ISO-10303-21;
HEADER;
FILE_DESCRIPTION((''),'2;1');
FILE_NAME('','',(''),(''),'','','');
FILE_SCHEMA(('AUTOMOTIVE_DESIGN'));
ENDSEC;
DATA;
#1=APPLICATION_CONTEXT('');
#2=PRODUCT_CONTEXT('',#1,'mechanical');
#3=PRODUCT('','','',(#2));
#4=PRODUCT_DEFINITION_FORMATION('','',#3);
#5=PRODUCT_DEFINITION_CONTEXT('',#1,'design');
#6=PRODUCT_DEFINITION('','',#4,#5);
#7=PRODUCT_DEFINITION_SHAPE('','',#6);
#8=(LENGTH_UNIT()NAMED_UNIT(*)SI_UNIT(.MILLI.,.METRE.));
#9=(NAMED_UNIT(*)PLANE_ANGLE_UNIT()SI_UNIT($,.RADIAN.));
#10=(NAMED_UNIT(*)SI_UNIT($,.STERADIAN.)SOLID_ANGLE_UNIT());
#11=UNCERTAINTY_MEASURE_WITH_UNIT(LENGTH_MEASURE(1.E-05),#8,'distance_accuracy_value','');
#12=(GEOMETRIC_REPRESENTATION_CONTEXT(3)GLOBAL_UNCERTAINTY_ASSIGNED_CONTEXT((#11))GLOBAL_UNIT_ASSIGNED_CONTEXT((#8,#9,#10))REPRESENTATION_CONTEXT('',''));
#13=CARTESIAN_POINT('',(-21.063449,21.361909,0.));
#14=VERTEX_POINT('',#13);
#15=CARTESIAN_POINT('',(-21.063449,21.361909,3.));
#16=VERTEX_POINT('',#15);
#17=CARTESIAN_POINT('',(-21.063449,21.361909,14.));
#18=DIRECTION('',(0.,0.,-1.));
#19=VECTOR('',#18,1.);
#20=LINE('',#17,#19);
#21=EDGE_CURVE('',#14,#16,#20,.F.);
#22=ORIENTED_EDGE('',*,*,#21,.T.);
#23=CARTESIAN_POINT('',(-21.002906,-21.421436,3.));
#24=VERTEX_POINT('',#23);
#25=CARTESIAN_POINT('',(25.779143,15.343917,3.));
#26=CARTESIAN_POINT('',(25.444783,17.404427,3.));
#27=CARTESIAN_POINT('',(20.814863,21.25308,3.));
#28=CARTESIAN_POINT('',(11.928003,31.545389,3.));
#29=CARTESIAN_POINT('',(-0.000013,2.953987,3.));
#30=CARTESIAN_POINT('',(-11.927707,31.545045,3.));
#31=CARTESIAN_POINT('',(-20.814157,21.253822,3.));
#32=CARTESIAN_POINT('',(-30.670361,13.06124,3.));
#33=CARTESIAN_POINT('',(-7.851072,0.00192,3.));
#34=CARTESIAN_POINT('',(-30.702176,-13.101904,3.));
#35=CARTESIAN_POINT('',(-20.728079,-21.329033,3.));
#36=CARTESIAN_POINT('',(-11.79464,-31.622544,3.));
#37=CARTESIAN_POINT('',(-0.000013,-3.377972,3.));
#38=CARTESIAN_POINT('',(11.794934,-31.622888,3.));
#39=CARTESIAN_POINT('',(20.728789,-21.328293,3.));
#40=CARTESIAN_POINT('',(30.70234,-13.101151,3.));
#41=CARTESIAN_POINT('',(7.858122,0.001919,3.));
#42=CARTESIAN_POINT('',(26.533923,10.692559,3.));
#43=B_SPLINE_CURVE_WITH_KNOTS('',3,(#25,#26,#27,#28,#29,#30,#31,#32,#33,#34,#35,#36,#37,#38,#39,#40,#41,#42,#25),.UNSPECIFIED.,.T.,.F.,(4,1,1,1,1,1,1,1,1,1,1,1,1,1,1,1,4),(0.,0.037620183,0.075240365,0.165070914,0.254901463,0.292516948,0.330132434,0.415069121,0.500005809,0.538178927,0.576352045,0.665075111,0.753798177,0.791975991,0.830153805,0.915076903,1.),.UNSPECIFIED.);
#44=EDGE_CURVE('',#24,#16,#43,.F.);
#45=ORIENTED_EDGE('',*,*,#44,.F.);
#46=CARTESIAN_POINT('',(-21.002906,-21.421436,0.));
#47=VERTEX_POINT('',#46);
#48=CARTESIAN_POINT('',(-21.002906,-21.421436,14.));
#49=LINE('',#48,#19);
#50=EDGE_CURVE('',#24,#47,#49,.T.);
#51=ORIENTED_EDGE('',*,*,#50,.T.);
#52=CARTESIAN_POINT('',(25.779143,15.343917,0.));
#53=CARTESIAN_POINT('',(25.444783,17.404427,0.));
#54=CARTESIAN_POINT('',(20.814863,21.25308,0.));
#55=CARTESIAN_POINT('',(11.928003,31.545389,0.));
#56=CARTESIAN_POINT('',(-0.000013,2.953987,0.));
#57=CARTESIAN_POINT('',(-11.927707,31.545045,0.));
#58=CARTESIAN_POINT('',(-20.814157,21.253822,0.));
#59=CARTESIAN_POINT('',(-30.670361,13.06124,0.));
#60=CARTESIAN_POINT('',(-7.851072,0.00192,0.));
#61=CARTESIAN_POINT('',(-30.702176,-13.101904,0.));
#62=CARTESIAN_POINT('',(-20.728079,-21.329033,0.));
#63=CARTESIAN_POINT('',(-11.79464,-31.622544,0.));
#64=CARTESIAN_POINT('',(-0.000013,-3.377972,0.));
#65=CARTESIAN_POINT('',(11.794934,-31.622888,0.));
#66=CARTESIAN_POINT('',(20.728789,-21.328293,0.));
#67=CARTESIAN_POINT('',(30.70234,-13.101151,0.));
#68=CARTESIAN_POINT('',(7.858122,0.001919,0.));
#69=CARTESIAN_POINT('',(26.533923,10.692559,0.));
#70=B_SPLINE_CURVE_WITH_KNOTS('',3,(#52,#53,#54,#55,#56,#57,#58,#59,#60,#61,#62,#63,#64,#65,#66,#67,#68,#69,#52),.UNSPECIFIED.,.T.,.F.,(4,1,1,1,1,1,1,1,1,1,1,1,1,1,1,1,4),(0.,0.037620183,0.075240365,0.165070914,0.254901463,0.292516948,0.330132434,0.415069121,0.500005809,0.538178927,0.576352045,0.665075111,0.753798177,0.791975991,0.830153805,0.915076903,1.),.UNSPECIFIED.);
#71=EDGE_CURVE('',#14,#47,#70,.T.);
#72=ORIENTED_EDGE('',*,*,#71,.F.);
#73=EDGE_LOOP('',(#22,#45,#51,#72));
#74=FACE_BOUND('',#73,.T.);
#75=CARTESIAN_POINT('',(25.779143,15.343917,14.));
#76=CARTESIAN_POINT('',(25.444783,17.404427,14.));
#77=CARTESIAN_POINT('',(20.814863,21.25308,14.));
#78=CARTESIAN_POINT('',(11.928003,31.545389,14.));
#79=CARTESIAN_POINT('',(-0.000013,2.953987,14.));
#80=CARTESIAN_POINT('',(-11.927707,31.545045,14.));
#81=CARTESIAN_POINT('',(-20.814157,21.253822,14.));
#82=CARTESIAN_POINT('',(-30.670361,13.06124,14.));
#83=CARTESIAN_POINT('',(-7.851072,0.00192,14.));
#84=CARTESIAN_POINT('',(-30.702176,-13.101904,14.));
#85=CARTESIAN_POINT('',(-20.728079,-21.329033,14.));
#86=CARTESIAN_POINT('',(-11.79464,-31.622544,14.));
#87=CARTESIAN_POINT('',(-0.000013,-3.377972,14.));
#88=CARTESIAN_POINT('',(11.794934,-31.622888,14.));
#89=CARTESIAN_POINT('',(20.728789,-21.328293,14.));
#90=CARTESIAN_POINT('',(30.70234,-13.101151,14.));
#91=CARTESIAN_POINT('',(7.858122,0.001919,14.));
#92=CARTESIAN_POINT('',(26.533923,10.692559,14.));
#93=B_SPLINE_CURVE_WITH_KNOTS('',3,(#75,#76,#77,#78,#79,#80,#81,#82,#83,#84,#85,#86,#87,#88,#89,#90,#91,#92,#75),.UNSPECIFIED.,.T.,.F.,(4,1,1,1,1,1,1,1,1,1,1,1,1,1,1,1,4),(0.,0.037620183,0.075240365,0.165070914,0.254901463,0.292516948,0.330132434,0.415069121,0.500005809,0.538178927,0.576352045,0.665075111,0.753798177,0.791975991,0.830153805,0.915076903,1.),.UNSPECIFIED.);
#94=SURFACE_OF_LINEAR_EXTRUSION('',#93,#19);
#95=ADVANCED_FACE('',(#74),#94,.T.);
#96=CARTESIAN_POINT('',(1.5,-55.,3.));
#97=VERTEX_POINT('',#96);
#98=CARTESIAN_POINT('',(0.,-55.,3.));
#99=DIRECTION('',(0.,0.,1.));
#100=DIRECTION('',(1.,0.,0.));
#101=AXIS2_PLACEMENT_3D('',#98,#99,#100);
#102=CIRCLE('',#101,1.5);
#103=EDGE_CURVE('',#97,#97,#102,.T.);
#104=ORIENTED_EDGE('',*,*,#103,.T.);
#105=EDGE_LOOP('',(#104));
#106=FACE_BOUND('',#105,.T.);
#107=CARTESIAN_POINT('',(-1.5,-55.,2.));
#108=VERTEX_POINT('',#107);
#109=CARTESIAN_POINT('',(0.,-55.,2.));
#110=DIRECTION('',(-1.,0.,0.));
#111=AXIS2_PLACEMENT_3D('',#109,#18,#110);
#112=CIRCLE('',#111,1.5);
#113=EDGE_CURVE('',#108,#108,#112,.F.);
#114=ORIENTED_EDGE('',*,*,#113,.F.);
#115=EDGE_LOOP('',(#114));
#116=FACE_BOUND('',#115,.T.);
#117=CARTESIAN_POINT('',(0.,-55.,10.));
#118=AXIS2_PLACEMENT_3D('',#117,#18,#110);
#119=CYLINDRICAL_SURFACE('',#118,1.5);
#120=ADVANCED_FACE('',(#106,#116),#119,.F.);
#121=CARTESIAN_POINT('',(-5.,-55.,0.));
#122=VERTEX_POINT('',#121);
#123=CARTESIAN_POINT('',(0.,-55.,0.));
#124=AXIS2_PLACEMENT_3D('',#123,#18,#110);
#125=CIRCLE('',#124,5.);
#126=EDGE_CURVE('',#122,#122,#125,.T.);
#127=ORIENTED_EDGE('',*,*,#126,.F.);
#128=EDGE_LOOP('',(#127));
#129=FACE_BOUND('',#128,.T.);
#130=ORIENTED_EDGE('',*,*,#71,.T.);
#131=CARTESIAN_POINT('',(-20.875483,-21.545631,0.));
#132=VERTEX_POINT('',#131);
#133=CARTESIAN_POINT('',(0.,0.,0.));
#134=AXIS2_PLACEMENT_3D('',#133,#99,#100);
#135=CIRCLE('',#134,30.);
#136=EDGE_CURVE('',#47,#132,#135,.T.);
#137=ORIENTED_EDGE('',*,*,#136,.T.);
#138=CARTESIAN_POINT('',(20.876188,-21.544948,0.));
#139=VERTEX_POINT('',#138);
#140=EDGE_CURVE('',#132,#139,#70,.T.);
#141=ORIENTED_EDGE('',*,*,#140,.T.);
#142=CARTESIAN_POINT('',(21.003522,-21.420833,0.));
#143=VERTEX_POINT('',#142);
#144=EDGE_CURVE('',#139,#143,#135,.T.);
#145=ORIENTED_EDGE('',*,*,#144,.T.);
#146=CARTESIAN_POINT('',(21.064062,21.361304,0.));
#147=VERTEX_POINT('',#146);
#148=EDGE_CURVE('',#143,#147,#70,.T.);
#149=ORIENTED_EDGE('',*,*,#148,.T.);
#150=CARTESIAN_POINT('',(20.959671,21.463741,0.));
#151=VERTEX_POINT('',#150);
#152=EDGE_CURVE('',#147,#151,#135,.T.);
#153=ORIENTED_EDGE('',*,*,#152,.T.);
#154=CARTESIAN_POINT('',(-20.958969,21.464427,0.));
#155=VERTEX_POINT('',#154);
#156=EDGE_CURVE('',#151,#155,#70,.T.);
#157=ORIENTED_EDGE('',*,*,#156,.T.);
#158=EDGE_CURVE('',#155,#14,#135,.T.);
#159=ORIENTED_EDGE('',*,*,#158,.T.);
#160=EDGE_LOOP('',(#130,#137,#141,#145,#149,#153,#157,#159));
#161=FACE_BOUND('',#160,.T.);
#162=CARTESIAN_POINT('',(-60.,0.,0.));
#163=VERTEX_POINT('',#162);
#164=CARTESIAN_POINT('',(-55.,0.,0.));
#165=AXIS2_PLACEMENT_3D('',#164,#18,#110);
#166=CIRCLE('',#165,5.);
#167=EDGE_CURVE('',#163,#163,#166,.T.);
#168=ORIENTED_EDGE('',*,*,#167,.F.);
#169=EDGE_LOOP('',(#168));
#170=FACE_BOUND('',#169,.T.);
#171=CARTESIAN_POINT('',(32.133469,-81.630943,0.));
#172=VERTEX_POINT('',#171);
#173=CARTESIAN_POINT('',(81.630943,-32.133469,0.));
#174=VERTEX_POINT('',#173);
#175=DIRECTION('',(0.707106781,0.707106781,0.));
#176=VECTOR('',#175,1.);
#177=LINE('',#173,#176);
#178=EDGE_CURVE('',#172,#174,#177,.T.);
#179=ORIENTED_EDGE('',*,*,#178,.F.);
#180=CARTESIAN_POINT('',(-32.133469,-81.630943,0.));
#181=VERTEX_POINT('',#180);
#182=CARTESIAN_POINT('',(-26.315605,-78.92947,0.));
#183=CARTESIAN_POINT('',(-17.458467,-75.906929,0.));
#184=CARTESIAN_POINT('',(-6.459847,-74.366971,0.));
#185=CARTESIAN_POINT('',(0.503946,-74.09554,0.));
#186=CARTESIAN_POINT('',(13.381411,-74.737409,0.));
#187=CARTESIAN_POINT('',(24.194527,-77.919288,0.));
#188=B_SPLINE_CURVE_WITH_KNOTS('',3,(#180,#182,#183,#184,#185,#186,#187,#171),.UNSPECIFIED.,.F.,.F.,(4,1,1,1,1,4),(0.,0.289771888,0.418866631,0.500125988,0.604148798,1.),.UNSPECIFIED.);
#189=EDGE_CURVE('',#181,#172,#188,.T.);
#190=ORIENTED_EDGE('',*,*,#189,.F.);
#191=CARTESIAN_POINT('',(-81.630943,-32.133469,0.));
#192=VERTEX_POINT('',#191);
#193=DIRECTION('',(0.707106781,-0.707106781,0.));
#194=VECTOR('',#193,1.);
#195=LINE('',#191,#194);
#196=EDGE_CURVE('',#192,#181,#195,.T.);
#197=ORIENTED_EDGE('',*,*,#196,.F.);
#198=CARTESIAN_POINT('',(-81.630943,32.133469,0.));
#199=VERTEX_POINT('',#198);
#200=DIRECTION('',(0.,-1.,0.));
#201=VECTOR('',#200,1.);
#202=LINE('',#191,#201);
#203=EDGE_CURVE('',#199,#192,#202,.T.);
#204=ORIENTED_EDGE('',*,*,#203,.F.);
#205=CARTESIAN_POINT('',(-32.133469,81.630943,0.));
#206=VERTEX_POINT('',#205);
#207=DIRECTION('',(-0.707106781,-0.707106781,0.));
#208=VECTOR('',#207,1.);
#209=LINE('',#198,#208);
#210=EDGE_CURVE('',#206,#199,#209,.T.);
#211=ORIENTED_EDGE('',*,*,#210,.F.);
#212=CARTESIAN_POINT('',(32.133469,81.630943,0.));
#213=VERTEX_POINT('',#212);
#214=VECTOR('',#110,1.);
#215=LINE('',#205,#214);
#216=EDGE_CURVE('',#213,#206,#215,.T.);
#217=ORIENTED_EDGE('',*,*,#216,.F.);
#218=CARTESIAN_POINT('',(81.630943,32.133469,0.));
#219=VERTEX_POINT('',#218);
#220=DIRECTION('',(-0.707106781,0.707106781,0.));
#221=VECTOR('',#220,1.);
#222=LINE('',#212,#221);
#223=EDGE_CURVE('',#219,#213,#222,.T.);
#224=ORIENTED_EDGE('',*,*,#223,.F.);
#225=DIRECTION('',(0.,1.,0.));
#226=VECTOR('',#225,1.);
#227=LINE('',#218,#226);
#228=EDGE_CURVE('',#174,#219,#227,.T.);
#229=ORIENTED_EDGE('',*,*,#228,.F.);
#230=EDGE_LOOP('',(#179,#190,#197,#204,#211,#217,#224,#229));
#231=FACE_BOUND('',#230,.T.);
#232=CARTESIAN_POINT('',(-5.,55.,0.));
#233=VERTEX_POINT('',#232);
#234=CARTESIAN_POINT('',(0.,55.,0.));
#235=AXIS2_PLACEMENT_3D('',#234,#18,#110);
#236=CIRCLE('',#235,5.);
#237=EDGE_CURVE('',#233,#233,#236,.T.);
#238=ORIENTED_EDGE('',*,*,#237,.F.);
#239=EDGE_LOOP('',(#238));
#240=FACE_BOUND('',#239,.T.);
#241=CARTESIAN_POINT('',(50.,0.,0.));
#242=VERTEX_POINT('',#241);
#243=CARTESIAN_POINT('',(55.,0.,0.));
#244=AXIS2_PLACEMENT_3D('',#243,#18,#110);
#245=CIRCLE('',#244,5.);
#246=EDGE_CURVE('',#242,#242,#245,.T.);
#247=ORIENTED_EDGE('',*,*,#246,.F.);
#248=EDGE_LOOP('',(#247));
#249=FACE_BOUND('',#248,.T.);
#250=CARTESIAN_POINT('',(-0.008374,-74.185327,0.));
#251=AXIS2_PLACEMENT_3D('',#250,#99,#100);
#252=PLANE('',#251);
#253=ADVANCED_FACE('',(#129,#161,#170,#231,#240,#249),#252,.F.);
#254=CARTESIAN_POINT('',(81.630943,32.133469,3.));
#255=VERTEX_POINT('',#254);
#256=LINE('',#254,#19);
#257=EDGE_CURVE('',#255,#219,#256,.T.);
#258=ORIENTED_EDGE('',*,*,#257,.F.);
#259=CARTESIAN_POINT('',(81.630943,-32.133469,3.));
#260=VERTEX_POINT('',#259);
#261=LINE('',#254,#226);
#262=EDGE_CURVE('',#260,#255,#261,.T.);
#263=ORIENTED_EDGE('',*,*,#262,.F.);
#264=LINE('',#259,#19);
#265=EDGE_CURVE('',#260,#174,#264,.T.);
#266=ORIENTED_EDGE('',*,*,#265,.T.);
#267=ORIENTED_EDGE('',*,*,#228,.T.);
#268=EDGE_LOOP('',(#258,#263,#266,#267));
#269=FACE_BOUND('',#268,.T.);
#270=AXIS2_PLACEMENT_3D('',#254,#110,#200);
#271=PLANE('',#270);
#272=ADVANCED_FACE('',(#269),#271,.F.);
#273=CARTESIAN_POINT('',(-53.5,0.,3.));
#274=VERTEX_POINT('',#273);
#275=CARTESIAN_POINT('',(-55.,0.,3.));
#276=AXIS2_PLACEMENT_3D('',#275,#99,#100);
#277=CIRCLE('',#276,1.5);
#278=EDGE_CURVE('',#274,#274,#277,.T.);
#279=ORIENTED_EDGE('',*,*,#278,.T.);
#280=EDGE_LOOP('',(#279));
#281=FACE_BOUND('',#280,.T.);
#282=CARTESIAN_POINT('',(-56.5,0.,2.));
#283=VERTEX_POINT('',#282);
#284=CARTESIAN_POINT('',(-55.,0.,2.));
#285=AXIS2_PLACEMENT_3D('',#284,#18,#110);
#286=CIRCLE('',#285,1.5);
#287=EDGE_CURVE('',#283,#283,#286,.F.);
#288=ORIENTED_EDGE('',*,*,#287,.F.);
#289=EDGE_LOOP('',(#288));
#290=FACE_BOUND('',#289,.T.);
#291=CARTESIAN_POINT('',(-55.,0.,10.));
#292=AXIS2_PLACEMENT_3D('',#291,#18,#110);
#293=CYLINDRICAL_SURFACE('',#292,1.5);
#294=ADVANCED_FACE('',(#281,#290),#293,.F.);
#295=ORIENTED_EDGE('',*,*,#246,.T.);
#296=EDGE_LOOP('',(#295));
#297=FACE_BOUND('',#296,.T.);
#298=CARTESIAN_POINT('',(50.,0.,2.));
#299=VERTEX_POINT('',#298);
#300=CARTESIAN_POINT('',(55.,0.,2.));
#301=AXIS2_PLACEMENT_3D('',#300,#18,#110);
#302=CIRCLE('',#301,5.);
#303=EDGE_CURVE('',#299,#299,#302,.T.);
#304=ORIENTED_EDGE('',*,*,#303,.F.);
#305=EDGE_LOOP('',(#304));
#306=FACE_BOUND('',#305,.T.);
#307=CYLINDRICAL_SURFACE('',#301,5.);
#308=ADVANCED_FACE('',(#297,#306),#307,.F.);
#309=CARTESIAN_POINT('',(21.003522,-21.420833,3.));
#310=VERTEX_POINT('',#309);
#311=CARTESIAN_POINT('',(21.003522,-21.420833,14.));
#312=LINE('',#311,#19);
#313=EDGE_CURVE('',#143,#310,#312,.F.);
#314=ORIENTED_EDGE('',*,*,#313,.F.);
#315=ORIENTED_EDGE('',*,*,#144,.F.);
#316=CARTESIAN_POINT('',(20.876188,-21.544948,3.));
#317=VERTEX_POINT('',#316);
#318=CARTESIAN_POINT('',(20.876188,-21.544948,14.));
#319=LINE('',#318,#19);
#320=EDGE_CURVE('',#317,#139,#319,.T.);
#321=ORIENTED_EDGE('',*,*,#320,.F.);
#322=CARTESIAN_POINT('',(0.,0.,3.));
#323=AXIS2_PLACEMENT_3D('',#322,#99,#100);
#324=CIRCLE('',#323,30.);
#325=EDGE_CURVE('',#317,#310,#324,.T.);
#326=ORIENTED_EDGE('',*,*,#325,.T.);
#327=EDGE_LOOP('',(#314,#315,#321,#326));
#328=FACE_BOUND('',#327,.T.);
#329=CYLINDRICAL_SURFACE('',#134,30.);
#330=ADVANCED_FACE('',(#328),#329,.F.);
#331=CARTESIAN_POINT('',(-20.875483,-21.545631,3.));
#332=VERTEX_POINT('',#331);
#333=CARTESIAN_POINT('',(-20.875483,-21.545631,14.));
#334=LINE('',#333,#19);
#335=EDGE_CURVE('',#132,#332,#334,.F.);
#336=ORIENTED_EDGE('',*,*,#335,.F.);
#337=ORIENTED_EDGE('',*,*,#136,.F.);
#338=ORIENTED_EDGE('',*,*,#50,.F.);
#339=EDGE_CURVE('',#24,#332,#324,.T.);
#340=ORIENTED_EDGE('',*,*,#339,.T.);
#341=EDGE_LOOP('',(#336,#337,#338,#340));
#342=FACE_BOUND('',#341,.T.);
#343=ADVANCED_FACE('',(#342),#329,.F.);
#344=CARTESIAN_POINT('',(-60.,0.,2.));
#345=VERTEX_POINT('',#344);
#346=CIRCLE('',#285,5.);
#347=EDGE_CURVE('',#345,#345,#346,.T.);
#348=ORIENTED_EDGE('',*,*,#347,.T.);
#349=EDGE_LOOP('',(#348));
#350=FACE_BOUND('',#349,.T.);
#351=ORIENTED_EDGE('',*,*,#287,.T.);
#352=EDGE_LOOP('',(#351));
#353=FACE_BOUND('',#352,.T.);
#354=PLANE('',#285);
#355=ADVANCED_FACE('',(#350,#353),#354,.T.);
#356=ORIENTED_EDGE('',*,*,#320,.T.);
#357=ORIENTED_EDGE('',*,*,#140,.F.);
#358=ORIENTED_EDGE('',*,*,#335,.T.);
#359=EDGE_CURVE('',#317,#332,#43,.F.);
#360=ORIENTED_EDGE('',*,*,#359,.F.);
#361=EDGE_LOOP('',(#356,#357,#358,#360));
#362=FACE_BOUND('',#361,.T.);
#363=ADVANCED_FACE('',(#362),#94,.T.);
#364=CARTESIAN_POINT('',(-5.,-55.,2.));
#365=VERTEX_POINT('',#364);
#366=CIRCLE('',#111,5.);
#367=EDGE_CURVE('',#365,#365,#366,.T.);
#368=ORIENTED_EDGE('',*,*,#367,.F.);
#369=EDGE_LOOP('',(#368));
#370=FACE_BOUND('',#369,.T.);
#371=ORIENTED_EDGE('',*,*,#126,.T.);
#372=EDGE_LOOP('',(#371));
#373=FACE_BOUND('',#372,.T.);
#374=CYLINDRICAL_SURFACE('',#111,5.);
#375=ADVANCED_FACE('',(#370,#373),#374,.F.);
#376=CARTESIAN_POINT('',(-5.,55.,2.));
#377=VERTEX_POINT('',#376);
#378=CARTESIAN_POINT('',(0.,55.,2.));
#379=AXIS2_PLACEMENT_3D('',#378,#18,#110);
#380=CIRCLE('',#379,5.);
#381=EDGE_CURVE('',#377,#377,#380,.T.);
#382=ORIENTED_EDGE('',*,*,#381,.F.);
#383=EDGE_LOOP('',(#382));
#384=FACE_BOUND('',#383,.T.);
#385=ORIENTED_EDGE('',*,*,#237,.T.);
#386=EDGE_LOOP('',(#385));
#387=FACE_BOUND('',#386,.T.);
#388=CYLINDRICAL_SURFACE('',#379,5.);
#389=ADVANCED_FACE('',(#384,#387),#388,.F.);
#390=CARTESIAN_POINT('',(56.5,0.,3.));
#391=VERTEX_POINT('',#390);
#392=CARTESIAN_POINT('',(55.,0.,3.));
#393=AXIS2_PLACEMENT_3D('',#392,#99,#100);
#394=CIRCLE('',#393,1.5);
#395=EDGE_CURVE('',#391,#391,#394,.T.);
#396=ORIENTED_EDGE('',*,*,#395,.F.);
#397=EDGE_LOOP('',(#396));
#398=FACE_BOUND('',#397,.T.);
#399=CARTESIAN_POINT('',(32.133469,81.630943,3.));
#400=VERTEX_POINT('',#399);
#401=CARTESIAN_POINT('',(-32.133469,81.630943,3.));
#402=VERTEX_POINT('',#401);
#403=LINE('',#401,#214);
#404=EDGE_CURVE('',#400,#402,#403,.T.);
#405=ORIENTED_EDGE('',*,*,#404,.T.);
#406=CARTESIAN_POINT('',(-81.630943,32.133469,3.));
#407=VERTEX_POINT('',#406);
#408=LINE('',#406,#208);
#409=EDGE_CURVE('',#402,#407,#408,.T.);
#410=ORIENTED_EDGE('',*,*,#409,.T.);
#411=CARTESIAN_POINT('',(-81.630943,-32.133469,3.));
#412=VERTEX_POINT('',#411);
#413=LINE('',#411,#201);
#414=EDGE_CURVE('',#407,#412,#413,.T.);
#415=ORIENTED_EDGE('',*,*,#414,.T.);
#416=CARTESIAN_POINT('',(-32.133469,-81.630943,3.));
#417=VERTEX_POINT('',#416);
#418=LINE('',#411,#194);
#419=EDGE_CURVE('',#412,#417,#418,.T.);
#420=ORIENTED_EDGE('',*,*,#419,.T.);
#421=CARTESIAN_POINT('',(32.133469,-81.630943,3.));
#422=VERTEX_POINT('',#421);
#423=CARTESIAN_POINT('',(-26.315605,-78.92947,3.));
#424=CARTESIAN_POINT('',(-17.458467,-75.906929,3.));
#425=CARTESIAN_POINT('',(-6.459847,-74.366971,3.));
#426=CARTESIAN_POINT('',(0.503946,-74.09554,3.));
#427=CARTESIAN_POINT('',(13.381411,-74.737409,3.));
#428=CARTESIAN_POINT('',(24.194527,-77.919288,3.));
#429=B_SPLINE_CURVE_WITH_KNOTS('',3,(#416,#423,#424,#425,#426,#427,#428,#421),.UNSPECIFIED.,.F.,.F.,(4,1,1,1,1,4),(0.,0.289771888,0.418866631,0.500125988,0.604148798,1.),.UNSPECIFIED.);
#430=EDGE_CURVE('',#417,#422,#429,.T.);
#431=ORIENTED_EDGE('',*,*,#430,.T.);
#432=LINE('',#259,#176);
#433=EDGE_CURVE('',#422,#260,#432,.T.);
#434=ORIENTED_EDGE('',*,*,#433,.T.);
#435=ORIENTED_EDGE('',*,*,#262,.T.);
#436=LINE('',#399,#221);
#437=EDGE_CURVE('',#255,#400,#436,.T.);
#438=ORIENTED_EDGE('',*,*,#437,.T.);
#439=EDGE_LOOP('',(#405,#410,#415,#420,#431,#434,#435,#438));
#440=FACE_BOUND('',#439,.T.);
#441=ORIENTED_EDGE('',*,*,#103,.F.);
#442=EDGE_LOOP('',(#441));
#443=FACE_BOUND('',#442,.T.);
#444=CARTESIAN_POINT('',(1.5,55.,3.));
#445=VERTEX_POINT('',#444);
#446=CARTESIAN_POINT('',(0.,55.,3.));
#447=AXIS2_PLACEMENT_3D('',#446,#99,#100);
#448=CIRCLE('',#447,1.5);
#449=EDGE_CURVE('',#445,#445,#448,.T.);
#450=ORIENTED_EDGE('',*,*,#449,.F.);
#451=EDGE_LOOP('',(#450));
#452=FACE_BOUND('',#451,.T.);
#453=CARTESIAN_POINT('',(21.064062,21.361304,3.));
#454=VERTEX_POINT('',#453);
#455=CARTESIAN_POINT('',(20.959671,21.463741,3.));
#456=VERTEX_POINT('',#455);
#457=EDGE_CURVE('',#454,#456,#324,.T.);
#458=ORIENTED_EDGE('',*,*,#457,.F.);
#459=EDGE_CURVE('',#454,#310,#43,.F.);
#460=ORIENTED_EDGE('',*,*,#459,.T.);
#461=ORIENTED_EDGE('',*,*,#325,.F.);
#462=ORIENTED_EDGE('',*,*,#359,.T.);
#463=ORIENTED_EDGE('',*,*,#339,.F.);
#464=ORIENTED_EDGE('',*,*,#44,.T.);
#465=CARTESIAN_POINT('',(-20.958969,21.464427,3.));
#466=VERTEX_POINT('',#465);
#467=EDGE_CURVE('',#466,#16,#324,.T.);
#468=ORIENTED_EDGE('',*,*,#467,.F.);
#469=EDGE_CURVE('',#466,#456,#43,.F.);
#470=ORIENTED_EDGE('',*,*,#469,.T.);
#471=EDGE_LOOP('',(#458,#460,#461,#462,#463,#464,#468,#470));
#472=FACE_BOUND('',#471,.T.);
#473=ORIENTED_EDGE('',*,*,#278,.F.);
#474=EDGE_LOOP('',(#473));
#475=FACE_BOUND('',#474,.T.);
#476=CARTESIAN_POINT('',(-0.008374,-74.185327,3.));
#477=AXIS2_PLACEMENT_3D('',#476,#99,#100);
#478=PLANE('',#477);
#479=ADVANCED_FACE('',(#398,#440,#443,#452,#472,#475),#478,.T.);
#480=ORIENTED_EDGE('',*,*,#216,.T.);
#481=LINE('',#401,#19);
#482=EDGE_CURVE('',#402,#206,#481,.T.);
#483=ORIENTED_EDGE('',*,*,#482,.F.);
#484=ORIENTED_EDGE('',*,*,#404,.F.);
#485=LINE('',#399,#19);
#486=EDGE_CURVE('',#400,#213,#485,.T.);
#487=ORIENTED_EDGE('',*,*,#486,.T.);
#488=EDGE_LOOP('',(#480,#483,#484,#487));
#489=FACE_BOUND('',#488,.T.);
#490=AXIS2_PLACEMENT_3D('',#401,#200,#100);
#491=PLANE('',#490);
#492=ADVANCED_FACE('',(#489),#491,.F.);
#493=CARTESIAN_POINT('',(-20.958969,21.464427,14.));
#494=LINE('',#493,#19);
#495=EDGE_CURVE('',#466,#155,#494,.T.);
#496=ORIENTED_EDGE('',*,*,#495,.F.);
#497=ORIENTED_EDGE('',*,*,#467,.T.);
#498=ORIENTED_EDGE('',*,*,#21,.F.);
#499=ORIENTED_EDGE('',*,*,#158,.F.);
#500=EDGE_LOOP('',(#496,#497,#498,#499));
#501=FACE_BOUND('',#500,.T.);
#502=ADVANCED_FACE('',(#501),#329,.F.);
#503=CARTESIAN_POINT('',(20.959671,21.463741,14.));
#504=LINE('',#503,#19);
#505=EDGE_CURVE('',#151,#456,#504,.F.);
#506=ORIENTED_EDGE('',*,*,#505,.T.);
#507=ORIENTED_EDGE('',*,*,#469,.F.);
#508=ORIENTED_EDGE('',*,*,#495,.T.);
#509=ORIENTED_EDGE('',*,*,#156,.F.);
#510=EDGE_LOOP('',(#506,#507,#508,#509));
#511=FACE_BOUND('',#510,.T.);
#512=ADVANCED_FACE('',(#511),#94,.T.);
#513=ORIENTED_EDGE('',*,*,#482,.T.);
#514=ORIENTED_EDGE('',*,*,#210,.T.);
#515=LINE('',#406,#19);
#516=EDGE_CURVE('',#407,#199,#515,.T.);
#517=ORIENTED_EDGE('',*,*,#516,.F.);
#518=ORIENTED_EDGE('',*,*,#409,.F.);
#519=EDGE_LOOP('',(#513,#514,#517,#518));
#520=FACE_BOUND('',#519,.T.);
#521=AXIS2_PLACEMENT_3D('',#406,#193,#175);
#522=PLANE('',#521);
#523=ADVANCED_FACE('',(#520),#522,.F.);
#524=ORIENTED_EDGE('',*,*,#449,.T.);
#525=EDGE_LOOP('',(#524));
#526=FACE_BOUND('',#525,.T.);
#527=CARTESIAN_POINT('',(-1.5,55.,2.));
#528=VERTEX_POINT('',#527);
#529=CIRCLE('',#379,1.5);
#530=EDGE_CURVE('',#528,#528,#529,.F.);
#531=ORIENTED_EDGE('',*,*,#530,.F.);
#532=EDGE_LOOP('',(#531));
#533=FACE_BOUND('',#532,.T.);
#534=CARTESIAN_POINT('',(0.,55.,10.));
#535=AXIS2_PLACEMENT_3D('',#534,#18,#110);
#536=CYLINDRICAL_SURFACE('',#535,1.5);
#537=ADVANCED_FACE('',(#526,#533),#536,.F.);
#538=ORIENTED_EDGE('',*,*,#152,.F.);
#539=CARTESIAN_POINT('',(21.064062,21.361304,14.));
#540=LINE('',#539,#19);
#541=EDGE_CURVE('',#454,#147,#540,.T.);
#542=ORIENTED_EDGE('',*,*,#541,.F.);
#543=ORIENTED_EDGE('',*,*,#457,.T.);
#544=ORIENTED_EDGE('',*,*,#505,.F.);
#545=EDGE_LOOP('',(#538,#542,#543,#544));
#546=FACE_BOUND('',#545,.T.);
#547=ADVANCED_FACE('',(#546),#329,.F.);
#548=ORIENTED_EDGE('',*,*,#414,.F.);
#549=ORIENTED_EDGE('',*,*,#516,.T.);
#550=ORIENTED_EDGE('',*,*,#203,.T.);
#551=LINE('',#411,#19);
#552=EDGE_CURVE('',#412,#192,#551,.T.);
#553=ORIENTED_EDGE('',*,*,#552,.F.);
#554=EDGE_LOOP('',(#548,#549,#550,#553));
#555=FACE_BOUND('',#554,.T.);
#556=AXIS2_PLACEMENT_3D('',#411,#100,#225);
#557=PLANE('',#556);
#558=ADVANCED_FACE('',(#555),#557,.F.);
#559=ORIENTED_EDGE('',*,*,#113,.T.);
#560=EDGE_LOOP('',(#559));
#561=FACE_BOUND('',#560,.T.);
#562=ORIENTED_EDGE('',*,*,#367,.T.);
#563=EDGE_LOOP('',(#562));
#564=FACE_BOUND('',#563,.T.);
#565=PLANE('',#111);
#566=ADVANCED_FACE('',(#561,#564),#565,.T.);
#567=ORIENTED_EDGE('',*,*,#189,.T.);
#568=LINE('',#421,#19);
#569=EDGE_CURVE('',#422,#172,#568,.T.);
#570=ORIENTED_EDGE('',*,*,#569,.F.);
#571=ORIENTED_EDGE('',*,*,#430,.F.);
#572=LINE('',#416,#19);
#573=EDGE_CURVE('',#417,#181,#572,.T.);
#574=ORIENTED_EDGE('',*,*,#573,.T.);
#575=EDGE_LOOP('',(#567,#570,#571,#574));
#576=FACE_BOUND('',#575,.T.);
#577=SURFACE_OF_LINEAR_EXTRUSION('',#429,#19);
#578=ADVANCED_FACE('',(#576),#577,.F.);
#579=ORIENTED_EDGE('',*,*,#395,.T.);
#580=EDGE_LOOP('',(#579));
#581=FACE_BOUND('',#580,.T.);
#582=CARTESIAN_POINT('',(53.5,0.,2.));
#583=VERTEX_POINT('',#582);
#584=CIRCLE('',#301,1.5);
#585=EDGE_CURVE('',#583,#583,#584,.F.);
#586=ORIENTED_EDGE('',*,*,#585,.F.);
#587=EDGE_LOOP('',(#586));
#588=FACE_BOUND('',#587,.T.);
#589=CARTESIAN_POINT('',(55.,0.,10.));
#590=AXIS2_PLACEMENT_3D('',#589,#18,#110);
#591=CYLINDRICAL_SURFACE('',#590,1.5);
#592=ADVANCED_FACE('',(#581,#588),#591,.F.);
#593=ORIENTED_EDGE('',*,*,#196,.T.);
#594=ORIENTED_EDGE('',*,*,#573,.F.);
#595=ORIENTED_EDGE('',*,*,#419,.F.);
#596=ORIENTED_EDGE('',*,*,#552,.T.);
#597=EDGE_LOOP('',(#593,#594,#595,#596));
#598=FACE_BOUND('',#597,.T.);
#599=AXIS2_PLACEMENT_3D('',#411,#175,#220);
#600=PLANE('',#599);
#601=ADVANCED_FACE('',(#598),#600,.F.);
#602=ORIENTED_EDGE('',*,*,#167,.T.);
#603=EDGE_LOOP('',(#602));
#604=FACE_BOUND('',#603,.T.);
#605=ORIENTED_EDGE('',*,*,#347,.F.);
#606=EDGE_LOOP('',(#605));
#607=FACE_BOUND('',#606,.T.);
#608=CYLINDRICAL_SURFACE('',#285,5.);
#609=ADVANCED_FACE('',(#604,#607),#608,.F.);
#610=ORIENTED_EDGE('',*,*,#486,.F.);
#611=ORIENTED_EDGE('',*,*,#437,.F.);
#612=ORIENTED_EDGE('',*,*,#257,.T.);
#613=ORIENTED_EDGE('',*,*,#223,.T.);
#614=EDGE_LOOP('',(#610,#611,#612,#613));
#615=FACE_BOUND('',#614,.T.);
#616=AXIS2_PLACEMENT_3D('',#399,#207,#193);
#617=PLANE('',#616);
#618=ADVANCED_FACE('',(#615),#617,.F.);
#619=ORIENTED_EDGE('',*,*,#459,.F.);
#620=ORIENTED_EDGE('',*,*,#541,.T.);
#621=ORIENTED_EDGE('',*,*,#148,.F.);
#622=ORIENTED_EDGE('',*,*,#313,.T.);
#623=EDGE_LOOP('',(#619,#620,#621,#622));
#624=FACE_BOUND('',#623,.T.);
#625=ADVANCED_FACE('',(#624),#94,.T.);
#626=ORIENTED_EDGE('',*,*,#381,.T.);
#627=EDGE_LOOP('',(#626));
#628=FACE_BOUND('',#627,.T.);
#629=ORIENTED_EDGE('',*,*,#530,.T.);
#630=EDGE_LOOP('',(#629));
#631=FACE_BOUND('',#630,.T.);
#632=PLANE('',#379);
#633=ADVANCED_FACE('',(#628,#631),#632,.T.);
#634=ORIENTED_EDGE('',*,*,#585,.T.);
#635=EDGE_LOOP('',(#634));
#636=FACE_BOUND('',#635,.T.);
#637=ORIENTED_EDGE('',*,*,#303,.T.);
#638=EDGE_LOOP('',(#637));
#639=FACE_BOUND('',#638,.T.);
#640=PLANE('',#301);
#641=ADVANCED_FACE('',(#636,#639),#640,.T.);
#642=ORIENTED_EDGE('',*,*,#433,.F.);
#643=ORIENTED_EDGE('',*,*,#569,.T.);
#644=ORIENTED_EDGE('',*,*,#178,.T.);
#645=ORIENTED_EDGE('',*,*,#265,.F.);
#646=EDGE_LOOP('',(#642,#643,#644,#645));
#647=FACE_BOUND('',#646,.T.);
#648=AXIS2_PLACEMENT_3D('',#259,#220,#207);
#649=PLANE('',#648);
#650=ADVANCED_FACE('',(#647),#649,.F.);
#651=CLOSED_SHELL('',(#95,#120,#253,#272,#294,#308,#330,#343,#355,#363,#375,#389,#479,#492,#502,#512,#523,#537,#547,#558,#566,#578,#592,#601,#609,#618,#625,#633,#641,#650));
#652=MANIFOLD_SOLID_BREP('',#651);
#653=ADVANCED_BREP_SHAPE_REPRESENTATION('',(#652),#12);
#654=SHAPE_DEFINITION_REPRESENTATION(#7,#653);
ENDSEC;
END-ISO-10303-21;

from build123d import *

# Parameters (mm, degrees)
BOSS_EXTRUDE1_DEPTH  = 3
SKETCH2_R            = 1.5
CUT_EXTRUDE1_DEPTH   = 3
SKETCH3_R            = 30
SKETCH3_R_2          = 15
CUT_EXTRUDE2_DEPTH   = 3
SKETCH4_R            = 18
BOSS_EXTRUDE6_DEPTH  = 3
SKETCH5_R            = 15
BOSS_EXTRUDE7_DEPTH  = 3
SKETCH6_R            = 15.225419419
BOSS_EXTRUDE8_DEPTH  = 3
SKETCH7_R            = 1.5
CUT_EXTRUDE4_DEPTH   = 3
SKETCH9_R            = 10
CUT_EXTRUDE5_DEPTH   = 3
SKETCH10_R           = 19.155501788
BOSS_EXTRUDE9_DEPTH  = 3
SKETCH11_R           = 13.756788871
BOSS_EXTRUDE10_DEPTH = 3
SKETCH12_R           = 11.549228796
BOSS_EXTRUDE11_DEPTH = 3
SKETCH14_R           = 9.610550559
BOSS_EXTRUDE12_DEPTH = 3
SKETCH15_R           = 14.086691916
BOSS_EXTRUDE13_DEPTH = 3
SKETCH16_R           = 15.543730799
BOSS_EXTRUDE14_DEPTH = 3
SKETCH17_R           = 14.681473261
BOSS_EXTRUDE17_DEPTH = 3
SKETCH18_R           = 13.614072274
BOSS_EXTRUDE18_DEPTH = 3
SKETCH19_R           = 1.5
CUT_EXTRUDE6_DEPTH   = 10
SKETCH20_R           = 5
CUT_EXTRUDE8_DEPTH   = 2
CUT_EXTRUDE11_DEPTH  = 14


with BuildPart() as part:
    # Sketch1 → Boss-Extrude1 (new body)
    with BuildSketch(Plane.XY):
        with BuildLine():
            Line((-32.133468612, 81.630943295), (32.133468612, 81.630943295))
            Line((32.133468612, 81.630943295), (81.630943295, 32.133468612))
            Line((81.630943295, 32.133468612), (81.630943295, -32.133468612))
            Line((81.630943295, -32.133468612), (32.133468612, -81.630943295))
            add(Edge.make_bspline(
                [(-32.133468612, -81.630943295), (-26.315604905, -78.929469601), (-17.458466972, -75.90692924), (-6.459846686, -74.366971031), (0.503945588, -74.095540146), (13.381410653, -74.737409183), (24.194527132, -77.919288079), (32.133468612, -81.630943295)],
                knots=[0, 0, 0, 0, 0.289771888, 0.418866631, 0.500125988, 0.604148798, 1, 1, 1, 1], degree=3))
            Line((-32.133468612, -81.630943295), (-81.630943295, -32.133468612))
            Line((-81.630943295, -32.133468612), (-81.630943295, 32.133468612))
            Line((-81.630943295, 32.133468612), (-32.133468612, 81.630943295))
        make_face()
    extrude(amount=BOSS_EXTRUDE1_DEPTH)

    # Sketch2 → Cut-Extrude1 (cut)
    with BuildSketch(Plane.XY.offset(3)):
        with Locations((-39.204536424, -39.204536424)):
            Circle(SKETCH2_R)
        with Locations((39.204536424, -39.204536424)):
            Circle(SKETCH2_R)
        with Locations((39.204536424, 39.204536424)):
            Circle(SKETCH2_R)
        with Locations((-39.204536424, 39.204536424)):
            Circle(SKETCH2_R)
    extrude(amount=-CUT_EXTRUDE1_DEPTH, mode=Mode.SUBTRACT)

    # Sketch3 → Cut-Extrude2 (cut)
    with BuildSketch(Plane.XY.offset(3)):
        Circle(SKETCH3_R)
        with Locations((0, 30)):
            Circle(SKETCH3_R_2)
        Circle(SKETCH3_R)
        with Locations((0, 30)):
            Circle(SKETCH3_R_2)
        with Locations((0, -30)):
            Circle(SKETCH3_R_2)
        Circle(SKETCH3_R)
        with Locations((30, 0)):
            Circle(SKETCH3_R_2)
        with Locations((0, 30)):
            Circle(SKETCH3_R_2)
        with Locations((-30, 0)):
            Circle(SKETCH3_R_2)
        Circle(SKETCH3_R)
        with Locations((-30, 0)):
            Circle(SKETCH3_R_2)
        Circle(SKETCH3_R)
        with Locations((0, -30)):
            Circle(SKETCH3_R_2)
        Circle(SKETCH3_R)
        with Locations((30, 0)):
            Circle(SKETCH3_R_2)
        Circle(SKETCH3_R)
        with Locations((30, 0)):
            Circle(SKETCH3_R_2)
        Circle(SKETCH3_R)
        with Locations((0, -30)):
            Circle(SKETCH3_R_2)
        Circle(SKETCH3_R)
        with Locations((-30, 0)):
            Circle(SKETCH3_R_2)
    extrude(amount=-CUT_EXTRUDE2_DEPTH, mode=Mode.SUBTRACT)

    # Sketch4 → Boss-Extrude6 (add)
    with BuildSketch(Plane.XY.offset(3)):
        with Locations((-35.186247216, 0)):
            Circle(SKETCH4_R)
        with Locations((35.19, 0)):
            Circle(SKETCH4_R)
    extrude(amount=-BOSS_EXTRUDE6_DEPTH)

    # Sketch5 → Boss-Extrude7 (add)
    with BuildSketch(Plane.XY.offset(3)):
        with Locations((0, -30)):
            Circle(SKETCH5_R)
    extrude(amount=-BOSS_EXTRUDE7_DEPTH)

    # Sketch6 → Boss-Extrude8 (add)
    with BuildSketch(Plane.XY.offset(3)):
        with Locations((0, 30)):
            Circle(SKETCH6_R)
    extrude(amount=-BOSS_EXTRUDE8_DEPTH)

    # Sketch7 → Cut-Extrude4 (cut)
    with BuildSketch(Plane.XY.offset(3)):
        with Locations((-46.253324199, 32.134700114)):
            Circle(SKETCH7_R)
        with Locations((-52.103605786, -20.865299886)):
            Circle(SKETCH7_R)
        with Locations((34.896394214, -20.865299886)):
            Circle(SKETCH7_R)
        with Locations((34.896394214, 32.134700114)):
            Circle(SKETCH7_R)
    extrude(amount=-CUT_EXTRUDE4_DEPTH, mode=Mode.SUBTRACT)

    # Sketch9 → Cut-Extrude5 (cut)
    with BuildSketch(Plane.XY.offset(3)):
        with Locations((0, 65.004511024)):
            Circle(SKETCH9_R)
        with Locations((0, -51.773637368)):
            Circle(SKETCH9_R)
        with Locations((-62.186247216, 0)):
            Circle(SKETCH9_R)
        with Locations((62.19, 0)):
            Circle(SKETCH9_R)
    extrude(amount=-CUT_EXTRUDE5_DEPTH, mode=Mode.SUBTRACT)

    # Sketch10 → Boss-Extrude9 (add)
    with BuildSketch(Plane.XY.offset(3)):
        with Locations((-48.672279754, -29.553895966)):
            Circle(SKETCH10_R)
    extrude(amount=-BOSS_EXTRUDE9_DEPTH)

    # Sketch11 → Boss-Extrude10 (add)
    with BuildSketch(Plane.XY.offset(3)):
        with Locations((37.212476286, -30.975829013)):
            Circle(SKETCH11_R)
    extrude(amount=-BOSS_EXTRUDE10_DEPTH)

    # Sketch12 → Boss-Extrude11 (add)
    with BuildSketch(Plane.XY.offset(3)):
        with Locations((38.591163572, 36.494236376)):
            Circle(SKETCH12_R)
    extrude(amount=-BOSS_EXTRUDE11_DEPTH)

    # Sketch14 → Boss-Extrude12 (add)
    with BuildSketch(Plane.XY.offset(3)):
        with Locations((-42.212724403, 37.609741157)):
            Circle(SKETCH14_R)
    extrude(amount=-BOSS_EXTRUDE12_DEPTH)

    # Sketch15 → Boss-Extrude13 (add)
    with BuildSketch(Plane.XY.offset(3)):
        with Locations((0, -51.773637368)):
            Circle(SKETCH15_R)
    extrude(amount=-BOSS_EXTRUDE13_DEPTH)

    # Sketch16 → Boss-Extrude14 (add)
    with BuildSketch(Plane.XY.offset(3)):
        with Locations((-63.76815814, 0)):
            Circle(SKETCH16_R)
    extrude(amount=-BOSS_EXTRUDE14_DEPTH)

    # Sketch17 → Boss-Extrude17 (add)
    with BuildSketch(Plane.XY.offset(3)):
        with Locations((-0.058768436, 63.845084824)):
            Circle(SKETCH17_R)
    extrude(amount=-BOSS_EXTRUDE17_DEPTH)

    # Sketch18 → Boss-Extrude18 (add)
    with BuildSketch(Plane(origin=(0, 0, 0), x_dir=(-1, 0, 0), z_dir=(0, 0, -1))):
        with Locations((-63.543622385, 0)):
            Circle(SKETCH18_R)
    extrude(amount=-BOSS_EXTRUDE18_DEPTH)

    # Sketch19 → Cut-Extrude6 (cut)
    with BuildSketch(Plane(origin=(0, 0, 0), x_dir=(-1, 0, 0), z_dir=(0, 0, -1))):
        with Locations((0, 55)):
            Circle(SKETCH19_R)
        with Locations((55, 0)):
            Circle(SKETCH19_R)
        with Locations((0, -55)):
            Circle(SKETCH19_R)
        with Locations((-55, 0)):
            Circle(SKETCH19_R)
    extrude(amount=-CUT_EXTRUDE6_DEPTH, mode=Mode.SUBTRACT)

    # Sketch20 → Cut-Extrude8 (cut)
    with BuildSketch(Plane(origin=(0, 0, 0), x_dir=(-1, 0, 0), z_dir=(0, 0, -1))):
        with Locations((0, 55)):
            Circle(SKETCH20_R)
        with Locations((55, 0)):
            Circle(SKETCH20_R)
        with Locations((0, -55)):
            Circle(SKETCH20_R)
        with Locations((-55, 0)):
            Circle(SKETCH20_R)
    extrude(amount=-CUT_EXTRUDE8_DEPTH, mode=Mode.SUBTRACT)

    # Sketch21 → Cut-Extrude11 (cut)
    with BuildSketch(Plane(origin=(0, 0, 0), x_dir=(-1, 0, 0), z_dir=(0, 0, -1))):
        with BuildLine():
            add(Edge.make_bspline(
                [(-25.779143223, 15.343916538), (-25.444782602, 17.404426932), (-20.814862678, 21.253079788), (-11.928002545, 31.54538853), (1.317e-05, 2.953987482), (11.927707302, 31.545045431), (20.814157023, 21.253821997), (30.670361401, 13.0612405), (7.851072174, 0.001919986), (30.702175927, -13.101903603), (20.72807921, -21.32903317), (11.794640134, -31.622543771), (1.2848e-05, -3.377971787), (-11.794933778, -31.622888023), (-20.72878866, -21.328293053), (-30.702340419, -13.101151105), (-7.858122441, 0.001919089), (-26.533922641, 10.69255887), (-25.779143223, 15.343916538)],
                knots=[0, 0, 0, 0, 0.037620183, 0.075240365, 0.165070914, 0.254901463, 0.292516948, 0.330132434, 0.415069121, 0.500005809, 0.538178927, 0.576352045, 0.665075111, 0.753798177, 0.791975991, 0.830153805, 0.915076903, 1, 1, 1, 1], degree=3))
        make_face()
    extrude(amount=-CUT_EXTRUDE11_DEPTH, mode=Mode.SUBTRACT)


solid = part.part
